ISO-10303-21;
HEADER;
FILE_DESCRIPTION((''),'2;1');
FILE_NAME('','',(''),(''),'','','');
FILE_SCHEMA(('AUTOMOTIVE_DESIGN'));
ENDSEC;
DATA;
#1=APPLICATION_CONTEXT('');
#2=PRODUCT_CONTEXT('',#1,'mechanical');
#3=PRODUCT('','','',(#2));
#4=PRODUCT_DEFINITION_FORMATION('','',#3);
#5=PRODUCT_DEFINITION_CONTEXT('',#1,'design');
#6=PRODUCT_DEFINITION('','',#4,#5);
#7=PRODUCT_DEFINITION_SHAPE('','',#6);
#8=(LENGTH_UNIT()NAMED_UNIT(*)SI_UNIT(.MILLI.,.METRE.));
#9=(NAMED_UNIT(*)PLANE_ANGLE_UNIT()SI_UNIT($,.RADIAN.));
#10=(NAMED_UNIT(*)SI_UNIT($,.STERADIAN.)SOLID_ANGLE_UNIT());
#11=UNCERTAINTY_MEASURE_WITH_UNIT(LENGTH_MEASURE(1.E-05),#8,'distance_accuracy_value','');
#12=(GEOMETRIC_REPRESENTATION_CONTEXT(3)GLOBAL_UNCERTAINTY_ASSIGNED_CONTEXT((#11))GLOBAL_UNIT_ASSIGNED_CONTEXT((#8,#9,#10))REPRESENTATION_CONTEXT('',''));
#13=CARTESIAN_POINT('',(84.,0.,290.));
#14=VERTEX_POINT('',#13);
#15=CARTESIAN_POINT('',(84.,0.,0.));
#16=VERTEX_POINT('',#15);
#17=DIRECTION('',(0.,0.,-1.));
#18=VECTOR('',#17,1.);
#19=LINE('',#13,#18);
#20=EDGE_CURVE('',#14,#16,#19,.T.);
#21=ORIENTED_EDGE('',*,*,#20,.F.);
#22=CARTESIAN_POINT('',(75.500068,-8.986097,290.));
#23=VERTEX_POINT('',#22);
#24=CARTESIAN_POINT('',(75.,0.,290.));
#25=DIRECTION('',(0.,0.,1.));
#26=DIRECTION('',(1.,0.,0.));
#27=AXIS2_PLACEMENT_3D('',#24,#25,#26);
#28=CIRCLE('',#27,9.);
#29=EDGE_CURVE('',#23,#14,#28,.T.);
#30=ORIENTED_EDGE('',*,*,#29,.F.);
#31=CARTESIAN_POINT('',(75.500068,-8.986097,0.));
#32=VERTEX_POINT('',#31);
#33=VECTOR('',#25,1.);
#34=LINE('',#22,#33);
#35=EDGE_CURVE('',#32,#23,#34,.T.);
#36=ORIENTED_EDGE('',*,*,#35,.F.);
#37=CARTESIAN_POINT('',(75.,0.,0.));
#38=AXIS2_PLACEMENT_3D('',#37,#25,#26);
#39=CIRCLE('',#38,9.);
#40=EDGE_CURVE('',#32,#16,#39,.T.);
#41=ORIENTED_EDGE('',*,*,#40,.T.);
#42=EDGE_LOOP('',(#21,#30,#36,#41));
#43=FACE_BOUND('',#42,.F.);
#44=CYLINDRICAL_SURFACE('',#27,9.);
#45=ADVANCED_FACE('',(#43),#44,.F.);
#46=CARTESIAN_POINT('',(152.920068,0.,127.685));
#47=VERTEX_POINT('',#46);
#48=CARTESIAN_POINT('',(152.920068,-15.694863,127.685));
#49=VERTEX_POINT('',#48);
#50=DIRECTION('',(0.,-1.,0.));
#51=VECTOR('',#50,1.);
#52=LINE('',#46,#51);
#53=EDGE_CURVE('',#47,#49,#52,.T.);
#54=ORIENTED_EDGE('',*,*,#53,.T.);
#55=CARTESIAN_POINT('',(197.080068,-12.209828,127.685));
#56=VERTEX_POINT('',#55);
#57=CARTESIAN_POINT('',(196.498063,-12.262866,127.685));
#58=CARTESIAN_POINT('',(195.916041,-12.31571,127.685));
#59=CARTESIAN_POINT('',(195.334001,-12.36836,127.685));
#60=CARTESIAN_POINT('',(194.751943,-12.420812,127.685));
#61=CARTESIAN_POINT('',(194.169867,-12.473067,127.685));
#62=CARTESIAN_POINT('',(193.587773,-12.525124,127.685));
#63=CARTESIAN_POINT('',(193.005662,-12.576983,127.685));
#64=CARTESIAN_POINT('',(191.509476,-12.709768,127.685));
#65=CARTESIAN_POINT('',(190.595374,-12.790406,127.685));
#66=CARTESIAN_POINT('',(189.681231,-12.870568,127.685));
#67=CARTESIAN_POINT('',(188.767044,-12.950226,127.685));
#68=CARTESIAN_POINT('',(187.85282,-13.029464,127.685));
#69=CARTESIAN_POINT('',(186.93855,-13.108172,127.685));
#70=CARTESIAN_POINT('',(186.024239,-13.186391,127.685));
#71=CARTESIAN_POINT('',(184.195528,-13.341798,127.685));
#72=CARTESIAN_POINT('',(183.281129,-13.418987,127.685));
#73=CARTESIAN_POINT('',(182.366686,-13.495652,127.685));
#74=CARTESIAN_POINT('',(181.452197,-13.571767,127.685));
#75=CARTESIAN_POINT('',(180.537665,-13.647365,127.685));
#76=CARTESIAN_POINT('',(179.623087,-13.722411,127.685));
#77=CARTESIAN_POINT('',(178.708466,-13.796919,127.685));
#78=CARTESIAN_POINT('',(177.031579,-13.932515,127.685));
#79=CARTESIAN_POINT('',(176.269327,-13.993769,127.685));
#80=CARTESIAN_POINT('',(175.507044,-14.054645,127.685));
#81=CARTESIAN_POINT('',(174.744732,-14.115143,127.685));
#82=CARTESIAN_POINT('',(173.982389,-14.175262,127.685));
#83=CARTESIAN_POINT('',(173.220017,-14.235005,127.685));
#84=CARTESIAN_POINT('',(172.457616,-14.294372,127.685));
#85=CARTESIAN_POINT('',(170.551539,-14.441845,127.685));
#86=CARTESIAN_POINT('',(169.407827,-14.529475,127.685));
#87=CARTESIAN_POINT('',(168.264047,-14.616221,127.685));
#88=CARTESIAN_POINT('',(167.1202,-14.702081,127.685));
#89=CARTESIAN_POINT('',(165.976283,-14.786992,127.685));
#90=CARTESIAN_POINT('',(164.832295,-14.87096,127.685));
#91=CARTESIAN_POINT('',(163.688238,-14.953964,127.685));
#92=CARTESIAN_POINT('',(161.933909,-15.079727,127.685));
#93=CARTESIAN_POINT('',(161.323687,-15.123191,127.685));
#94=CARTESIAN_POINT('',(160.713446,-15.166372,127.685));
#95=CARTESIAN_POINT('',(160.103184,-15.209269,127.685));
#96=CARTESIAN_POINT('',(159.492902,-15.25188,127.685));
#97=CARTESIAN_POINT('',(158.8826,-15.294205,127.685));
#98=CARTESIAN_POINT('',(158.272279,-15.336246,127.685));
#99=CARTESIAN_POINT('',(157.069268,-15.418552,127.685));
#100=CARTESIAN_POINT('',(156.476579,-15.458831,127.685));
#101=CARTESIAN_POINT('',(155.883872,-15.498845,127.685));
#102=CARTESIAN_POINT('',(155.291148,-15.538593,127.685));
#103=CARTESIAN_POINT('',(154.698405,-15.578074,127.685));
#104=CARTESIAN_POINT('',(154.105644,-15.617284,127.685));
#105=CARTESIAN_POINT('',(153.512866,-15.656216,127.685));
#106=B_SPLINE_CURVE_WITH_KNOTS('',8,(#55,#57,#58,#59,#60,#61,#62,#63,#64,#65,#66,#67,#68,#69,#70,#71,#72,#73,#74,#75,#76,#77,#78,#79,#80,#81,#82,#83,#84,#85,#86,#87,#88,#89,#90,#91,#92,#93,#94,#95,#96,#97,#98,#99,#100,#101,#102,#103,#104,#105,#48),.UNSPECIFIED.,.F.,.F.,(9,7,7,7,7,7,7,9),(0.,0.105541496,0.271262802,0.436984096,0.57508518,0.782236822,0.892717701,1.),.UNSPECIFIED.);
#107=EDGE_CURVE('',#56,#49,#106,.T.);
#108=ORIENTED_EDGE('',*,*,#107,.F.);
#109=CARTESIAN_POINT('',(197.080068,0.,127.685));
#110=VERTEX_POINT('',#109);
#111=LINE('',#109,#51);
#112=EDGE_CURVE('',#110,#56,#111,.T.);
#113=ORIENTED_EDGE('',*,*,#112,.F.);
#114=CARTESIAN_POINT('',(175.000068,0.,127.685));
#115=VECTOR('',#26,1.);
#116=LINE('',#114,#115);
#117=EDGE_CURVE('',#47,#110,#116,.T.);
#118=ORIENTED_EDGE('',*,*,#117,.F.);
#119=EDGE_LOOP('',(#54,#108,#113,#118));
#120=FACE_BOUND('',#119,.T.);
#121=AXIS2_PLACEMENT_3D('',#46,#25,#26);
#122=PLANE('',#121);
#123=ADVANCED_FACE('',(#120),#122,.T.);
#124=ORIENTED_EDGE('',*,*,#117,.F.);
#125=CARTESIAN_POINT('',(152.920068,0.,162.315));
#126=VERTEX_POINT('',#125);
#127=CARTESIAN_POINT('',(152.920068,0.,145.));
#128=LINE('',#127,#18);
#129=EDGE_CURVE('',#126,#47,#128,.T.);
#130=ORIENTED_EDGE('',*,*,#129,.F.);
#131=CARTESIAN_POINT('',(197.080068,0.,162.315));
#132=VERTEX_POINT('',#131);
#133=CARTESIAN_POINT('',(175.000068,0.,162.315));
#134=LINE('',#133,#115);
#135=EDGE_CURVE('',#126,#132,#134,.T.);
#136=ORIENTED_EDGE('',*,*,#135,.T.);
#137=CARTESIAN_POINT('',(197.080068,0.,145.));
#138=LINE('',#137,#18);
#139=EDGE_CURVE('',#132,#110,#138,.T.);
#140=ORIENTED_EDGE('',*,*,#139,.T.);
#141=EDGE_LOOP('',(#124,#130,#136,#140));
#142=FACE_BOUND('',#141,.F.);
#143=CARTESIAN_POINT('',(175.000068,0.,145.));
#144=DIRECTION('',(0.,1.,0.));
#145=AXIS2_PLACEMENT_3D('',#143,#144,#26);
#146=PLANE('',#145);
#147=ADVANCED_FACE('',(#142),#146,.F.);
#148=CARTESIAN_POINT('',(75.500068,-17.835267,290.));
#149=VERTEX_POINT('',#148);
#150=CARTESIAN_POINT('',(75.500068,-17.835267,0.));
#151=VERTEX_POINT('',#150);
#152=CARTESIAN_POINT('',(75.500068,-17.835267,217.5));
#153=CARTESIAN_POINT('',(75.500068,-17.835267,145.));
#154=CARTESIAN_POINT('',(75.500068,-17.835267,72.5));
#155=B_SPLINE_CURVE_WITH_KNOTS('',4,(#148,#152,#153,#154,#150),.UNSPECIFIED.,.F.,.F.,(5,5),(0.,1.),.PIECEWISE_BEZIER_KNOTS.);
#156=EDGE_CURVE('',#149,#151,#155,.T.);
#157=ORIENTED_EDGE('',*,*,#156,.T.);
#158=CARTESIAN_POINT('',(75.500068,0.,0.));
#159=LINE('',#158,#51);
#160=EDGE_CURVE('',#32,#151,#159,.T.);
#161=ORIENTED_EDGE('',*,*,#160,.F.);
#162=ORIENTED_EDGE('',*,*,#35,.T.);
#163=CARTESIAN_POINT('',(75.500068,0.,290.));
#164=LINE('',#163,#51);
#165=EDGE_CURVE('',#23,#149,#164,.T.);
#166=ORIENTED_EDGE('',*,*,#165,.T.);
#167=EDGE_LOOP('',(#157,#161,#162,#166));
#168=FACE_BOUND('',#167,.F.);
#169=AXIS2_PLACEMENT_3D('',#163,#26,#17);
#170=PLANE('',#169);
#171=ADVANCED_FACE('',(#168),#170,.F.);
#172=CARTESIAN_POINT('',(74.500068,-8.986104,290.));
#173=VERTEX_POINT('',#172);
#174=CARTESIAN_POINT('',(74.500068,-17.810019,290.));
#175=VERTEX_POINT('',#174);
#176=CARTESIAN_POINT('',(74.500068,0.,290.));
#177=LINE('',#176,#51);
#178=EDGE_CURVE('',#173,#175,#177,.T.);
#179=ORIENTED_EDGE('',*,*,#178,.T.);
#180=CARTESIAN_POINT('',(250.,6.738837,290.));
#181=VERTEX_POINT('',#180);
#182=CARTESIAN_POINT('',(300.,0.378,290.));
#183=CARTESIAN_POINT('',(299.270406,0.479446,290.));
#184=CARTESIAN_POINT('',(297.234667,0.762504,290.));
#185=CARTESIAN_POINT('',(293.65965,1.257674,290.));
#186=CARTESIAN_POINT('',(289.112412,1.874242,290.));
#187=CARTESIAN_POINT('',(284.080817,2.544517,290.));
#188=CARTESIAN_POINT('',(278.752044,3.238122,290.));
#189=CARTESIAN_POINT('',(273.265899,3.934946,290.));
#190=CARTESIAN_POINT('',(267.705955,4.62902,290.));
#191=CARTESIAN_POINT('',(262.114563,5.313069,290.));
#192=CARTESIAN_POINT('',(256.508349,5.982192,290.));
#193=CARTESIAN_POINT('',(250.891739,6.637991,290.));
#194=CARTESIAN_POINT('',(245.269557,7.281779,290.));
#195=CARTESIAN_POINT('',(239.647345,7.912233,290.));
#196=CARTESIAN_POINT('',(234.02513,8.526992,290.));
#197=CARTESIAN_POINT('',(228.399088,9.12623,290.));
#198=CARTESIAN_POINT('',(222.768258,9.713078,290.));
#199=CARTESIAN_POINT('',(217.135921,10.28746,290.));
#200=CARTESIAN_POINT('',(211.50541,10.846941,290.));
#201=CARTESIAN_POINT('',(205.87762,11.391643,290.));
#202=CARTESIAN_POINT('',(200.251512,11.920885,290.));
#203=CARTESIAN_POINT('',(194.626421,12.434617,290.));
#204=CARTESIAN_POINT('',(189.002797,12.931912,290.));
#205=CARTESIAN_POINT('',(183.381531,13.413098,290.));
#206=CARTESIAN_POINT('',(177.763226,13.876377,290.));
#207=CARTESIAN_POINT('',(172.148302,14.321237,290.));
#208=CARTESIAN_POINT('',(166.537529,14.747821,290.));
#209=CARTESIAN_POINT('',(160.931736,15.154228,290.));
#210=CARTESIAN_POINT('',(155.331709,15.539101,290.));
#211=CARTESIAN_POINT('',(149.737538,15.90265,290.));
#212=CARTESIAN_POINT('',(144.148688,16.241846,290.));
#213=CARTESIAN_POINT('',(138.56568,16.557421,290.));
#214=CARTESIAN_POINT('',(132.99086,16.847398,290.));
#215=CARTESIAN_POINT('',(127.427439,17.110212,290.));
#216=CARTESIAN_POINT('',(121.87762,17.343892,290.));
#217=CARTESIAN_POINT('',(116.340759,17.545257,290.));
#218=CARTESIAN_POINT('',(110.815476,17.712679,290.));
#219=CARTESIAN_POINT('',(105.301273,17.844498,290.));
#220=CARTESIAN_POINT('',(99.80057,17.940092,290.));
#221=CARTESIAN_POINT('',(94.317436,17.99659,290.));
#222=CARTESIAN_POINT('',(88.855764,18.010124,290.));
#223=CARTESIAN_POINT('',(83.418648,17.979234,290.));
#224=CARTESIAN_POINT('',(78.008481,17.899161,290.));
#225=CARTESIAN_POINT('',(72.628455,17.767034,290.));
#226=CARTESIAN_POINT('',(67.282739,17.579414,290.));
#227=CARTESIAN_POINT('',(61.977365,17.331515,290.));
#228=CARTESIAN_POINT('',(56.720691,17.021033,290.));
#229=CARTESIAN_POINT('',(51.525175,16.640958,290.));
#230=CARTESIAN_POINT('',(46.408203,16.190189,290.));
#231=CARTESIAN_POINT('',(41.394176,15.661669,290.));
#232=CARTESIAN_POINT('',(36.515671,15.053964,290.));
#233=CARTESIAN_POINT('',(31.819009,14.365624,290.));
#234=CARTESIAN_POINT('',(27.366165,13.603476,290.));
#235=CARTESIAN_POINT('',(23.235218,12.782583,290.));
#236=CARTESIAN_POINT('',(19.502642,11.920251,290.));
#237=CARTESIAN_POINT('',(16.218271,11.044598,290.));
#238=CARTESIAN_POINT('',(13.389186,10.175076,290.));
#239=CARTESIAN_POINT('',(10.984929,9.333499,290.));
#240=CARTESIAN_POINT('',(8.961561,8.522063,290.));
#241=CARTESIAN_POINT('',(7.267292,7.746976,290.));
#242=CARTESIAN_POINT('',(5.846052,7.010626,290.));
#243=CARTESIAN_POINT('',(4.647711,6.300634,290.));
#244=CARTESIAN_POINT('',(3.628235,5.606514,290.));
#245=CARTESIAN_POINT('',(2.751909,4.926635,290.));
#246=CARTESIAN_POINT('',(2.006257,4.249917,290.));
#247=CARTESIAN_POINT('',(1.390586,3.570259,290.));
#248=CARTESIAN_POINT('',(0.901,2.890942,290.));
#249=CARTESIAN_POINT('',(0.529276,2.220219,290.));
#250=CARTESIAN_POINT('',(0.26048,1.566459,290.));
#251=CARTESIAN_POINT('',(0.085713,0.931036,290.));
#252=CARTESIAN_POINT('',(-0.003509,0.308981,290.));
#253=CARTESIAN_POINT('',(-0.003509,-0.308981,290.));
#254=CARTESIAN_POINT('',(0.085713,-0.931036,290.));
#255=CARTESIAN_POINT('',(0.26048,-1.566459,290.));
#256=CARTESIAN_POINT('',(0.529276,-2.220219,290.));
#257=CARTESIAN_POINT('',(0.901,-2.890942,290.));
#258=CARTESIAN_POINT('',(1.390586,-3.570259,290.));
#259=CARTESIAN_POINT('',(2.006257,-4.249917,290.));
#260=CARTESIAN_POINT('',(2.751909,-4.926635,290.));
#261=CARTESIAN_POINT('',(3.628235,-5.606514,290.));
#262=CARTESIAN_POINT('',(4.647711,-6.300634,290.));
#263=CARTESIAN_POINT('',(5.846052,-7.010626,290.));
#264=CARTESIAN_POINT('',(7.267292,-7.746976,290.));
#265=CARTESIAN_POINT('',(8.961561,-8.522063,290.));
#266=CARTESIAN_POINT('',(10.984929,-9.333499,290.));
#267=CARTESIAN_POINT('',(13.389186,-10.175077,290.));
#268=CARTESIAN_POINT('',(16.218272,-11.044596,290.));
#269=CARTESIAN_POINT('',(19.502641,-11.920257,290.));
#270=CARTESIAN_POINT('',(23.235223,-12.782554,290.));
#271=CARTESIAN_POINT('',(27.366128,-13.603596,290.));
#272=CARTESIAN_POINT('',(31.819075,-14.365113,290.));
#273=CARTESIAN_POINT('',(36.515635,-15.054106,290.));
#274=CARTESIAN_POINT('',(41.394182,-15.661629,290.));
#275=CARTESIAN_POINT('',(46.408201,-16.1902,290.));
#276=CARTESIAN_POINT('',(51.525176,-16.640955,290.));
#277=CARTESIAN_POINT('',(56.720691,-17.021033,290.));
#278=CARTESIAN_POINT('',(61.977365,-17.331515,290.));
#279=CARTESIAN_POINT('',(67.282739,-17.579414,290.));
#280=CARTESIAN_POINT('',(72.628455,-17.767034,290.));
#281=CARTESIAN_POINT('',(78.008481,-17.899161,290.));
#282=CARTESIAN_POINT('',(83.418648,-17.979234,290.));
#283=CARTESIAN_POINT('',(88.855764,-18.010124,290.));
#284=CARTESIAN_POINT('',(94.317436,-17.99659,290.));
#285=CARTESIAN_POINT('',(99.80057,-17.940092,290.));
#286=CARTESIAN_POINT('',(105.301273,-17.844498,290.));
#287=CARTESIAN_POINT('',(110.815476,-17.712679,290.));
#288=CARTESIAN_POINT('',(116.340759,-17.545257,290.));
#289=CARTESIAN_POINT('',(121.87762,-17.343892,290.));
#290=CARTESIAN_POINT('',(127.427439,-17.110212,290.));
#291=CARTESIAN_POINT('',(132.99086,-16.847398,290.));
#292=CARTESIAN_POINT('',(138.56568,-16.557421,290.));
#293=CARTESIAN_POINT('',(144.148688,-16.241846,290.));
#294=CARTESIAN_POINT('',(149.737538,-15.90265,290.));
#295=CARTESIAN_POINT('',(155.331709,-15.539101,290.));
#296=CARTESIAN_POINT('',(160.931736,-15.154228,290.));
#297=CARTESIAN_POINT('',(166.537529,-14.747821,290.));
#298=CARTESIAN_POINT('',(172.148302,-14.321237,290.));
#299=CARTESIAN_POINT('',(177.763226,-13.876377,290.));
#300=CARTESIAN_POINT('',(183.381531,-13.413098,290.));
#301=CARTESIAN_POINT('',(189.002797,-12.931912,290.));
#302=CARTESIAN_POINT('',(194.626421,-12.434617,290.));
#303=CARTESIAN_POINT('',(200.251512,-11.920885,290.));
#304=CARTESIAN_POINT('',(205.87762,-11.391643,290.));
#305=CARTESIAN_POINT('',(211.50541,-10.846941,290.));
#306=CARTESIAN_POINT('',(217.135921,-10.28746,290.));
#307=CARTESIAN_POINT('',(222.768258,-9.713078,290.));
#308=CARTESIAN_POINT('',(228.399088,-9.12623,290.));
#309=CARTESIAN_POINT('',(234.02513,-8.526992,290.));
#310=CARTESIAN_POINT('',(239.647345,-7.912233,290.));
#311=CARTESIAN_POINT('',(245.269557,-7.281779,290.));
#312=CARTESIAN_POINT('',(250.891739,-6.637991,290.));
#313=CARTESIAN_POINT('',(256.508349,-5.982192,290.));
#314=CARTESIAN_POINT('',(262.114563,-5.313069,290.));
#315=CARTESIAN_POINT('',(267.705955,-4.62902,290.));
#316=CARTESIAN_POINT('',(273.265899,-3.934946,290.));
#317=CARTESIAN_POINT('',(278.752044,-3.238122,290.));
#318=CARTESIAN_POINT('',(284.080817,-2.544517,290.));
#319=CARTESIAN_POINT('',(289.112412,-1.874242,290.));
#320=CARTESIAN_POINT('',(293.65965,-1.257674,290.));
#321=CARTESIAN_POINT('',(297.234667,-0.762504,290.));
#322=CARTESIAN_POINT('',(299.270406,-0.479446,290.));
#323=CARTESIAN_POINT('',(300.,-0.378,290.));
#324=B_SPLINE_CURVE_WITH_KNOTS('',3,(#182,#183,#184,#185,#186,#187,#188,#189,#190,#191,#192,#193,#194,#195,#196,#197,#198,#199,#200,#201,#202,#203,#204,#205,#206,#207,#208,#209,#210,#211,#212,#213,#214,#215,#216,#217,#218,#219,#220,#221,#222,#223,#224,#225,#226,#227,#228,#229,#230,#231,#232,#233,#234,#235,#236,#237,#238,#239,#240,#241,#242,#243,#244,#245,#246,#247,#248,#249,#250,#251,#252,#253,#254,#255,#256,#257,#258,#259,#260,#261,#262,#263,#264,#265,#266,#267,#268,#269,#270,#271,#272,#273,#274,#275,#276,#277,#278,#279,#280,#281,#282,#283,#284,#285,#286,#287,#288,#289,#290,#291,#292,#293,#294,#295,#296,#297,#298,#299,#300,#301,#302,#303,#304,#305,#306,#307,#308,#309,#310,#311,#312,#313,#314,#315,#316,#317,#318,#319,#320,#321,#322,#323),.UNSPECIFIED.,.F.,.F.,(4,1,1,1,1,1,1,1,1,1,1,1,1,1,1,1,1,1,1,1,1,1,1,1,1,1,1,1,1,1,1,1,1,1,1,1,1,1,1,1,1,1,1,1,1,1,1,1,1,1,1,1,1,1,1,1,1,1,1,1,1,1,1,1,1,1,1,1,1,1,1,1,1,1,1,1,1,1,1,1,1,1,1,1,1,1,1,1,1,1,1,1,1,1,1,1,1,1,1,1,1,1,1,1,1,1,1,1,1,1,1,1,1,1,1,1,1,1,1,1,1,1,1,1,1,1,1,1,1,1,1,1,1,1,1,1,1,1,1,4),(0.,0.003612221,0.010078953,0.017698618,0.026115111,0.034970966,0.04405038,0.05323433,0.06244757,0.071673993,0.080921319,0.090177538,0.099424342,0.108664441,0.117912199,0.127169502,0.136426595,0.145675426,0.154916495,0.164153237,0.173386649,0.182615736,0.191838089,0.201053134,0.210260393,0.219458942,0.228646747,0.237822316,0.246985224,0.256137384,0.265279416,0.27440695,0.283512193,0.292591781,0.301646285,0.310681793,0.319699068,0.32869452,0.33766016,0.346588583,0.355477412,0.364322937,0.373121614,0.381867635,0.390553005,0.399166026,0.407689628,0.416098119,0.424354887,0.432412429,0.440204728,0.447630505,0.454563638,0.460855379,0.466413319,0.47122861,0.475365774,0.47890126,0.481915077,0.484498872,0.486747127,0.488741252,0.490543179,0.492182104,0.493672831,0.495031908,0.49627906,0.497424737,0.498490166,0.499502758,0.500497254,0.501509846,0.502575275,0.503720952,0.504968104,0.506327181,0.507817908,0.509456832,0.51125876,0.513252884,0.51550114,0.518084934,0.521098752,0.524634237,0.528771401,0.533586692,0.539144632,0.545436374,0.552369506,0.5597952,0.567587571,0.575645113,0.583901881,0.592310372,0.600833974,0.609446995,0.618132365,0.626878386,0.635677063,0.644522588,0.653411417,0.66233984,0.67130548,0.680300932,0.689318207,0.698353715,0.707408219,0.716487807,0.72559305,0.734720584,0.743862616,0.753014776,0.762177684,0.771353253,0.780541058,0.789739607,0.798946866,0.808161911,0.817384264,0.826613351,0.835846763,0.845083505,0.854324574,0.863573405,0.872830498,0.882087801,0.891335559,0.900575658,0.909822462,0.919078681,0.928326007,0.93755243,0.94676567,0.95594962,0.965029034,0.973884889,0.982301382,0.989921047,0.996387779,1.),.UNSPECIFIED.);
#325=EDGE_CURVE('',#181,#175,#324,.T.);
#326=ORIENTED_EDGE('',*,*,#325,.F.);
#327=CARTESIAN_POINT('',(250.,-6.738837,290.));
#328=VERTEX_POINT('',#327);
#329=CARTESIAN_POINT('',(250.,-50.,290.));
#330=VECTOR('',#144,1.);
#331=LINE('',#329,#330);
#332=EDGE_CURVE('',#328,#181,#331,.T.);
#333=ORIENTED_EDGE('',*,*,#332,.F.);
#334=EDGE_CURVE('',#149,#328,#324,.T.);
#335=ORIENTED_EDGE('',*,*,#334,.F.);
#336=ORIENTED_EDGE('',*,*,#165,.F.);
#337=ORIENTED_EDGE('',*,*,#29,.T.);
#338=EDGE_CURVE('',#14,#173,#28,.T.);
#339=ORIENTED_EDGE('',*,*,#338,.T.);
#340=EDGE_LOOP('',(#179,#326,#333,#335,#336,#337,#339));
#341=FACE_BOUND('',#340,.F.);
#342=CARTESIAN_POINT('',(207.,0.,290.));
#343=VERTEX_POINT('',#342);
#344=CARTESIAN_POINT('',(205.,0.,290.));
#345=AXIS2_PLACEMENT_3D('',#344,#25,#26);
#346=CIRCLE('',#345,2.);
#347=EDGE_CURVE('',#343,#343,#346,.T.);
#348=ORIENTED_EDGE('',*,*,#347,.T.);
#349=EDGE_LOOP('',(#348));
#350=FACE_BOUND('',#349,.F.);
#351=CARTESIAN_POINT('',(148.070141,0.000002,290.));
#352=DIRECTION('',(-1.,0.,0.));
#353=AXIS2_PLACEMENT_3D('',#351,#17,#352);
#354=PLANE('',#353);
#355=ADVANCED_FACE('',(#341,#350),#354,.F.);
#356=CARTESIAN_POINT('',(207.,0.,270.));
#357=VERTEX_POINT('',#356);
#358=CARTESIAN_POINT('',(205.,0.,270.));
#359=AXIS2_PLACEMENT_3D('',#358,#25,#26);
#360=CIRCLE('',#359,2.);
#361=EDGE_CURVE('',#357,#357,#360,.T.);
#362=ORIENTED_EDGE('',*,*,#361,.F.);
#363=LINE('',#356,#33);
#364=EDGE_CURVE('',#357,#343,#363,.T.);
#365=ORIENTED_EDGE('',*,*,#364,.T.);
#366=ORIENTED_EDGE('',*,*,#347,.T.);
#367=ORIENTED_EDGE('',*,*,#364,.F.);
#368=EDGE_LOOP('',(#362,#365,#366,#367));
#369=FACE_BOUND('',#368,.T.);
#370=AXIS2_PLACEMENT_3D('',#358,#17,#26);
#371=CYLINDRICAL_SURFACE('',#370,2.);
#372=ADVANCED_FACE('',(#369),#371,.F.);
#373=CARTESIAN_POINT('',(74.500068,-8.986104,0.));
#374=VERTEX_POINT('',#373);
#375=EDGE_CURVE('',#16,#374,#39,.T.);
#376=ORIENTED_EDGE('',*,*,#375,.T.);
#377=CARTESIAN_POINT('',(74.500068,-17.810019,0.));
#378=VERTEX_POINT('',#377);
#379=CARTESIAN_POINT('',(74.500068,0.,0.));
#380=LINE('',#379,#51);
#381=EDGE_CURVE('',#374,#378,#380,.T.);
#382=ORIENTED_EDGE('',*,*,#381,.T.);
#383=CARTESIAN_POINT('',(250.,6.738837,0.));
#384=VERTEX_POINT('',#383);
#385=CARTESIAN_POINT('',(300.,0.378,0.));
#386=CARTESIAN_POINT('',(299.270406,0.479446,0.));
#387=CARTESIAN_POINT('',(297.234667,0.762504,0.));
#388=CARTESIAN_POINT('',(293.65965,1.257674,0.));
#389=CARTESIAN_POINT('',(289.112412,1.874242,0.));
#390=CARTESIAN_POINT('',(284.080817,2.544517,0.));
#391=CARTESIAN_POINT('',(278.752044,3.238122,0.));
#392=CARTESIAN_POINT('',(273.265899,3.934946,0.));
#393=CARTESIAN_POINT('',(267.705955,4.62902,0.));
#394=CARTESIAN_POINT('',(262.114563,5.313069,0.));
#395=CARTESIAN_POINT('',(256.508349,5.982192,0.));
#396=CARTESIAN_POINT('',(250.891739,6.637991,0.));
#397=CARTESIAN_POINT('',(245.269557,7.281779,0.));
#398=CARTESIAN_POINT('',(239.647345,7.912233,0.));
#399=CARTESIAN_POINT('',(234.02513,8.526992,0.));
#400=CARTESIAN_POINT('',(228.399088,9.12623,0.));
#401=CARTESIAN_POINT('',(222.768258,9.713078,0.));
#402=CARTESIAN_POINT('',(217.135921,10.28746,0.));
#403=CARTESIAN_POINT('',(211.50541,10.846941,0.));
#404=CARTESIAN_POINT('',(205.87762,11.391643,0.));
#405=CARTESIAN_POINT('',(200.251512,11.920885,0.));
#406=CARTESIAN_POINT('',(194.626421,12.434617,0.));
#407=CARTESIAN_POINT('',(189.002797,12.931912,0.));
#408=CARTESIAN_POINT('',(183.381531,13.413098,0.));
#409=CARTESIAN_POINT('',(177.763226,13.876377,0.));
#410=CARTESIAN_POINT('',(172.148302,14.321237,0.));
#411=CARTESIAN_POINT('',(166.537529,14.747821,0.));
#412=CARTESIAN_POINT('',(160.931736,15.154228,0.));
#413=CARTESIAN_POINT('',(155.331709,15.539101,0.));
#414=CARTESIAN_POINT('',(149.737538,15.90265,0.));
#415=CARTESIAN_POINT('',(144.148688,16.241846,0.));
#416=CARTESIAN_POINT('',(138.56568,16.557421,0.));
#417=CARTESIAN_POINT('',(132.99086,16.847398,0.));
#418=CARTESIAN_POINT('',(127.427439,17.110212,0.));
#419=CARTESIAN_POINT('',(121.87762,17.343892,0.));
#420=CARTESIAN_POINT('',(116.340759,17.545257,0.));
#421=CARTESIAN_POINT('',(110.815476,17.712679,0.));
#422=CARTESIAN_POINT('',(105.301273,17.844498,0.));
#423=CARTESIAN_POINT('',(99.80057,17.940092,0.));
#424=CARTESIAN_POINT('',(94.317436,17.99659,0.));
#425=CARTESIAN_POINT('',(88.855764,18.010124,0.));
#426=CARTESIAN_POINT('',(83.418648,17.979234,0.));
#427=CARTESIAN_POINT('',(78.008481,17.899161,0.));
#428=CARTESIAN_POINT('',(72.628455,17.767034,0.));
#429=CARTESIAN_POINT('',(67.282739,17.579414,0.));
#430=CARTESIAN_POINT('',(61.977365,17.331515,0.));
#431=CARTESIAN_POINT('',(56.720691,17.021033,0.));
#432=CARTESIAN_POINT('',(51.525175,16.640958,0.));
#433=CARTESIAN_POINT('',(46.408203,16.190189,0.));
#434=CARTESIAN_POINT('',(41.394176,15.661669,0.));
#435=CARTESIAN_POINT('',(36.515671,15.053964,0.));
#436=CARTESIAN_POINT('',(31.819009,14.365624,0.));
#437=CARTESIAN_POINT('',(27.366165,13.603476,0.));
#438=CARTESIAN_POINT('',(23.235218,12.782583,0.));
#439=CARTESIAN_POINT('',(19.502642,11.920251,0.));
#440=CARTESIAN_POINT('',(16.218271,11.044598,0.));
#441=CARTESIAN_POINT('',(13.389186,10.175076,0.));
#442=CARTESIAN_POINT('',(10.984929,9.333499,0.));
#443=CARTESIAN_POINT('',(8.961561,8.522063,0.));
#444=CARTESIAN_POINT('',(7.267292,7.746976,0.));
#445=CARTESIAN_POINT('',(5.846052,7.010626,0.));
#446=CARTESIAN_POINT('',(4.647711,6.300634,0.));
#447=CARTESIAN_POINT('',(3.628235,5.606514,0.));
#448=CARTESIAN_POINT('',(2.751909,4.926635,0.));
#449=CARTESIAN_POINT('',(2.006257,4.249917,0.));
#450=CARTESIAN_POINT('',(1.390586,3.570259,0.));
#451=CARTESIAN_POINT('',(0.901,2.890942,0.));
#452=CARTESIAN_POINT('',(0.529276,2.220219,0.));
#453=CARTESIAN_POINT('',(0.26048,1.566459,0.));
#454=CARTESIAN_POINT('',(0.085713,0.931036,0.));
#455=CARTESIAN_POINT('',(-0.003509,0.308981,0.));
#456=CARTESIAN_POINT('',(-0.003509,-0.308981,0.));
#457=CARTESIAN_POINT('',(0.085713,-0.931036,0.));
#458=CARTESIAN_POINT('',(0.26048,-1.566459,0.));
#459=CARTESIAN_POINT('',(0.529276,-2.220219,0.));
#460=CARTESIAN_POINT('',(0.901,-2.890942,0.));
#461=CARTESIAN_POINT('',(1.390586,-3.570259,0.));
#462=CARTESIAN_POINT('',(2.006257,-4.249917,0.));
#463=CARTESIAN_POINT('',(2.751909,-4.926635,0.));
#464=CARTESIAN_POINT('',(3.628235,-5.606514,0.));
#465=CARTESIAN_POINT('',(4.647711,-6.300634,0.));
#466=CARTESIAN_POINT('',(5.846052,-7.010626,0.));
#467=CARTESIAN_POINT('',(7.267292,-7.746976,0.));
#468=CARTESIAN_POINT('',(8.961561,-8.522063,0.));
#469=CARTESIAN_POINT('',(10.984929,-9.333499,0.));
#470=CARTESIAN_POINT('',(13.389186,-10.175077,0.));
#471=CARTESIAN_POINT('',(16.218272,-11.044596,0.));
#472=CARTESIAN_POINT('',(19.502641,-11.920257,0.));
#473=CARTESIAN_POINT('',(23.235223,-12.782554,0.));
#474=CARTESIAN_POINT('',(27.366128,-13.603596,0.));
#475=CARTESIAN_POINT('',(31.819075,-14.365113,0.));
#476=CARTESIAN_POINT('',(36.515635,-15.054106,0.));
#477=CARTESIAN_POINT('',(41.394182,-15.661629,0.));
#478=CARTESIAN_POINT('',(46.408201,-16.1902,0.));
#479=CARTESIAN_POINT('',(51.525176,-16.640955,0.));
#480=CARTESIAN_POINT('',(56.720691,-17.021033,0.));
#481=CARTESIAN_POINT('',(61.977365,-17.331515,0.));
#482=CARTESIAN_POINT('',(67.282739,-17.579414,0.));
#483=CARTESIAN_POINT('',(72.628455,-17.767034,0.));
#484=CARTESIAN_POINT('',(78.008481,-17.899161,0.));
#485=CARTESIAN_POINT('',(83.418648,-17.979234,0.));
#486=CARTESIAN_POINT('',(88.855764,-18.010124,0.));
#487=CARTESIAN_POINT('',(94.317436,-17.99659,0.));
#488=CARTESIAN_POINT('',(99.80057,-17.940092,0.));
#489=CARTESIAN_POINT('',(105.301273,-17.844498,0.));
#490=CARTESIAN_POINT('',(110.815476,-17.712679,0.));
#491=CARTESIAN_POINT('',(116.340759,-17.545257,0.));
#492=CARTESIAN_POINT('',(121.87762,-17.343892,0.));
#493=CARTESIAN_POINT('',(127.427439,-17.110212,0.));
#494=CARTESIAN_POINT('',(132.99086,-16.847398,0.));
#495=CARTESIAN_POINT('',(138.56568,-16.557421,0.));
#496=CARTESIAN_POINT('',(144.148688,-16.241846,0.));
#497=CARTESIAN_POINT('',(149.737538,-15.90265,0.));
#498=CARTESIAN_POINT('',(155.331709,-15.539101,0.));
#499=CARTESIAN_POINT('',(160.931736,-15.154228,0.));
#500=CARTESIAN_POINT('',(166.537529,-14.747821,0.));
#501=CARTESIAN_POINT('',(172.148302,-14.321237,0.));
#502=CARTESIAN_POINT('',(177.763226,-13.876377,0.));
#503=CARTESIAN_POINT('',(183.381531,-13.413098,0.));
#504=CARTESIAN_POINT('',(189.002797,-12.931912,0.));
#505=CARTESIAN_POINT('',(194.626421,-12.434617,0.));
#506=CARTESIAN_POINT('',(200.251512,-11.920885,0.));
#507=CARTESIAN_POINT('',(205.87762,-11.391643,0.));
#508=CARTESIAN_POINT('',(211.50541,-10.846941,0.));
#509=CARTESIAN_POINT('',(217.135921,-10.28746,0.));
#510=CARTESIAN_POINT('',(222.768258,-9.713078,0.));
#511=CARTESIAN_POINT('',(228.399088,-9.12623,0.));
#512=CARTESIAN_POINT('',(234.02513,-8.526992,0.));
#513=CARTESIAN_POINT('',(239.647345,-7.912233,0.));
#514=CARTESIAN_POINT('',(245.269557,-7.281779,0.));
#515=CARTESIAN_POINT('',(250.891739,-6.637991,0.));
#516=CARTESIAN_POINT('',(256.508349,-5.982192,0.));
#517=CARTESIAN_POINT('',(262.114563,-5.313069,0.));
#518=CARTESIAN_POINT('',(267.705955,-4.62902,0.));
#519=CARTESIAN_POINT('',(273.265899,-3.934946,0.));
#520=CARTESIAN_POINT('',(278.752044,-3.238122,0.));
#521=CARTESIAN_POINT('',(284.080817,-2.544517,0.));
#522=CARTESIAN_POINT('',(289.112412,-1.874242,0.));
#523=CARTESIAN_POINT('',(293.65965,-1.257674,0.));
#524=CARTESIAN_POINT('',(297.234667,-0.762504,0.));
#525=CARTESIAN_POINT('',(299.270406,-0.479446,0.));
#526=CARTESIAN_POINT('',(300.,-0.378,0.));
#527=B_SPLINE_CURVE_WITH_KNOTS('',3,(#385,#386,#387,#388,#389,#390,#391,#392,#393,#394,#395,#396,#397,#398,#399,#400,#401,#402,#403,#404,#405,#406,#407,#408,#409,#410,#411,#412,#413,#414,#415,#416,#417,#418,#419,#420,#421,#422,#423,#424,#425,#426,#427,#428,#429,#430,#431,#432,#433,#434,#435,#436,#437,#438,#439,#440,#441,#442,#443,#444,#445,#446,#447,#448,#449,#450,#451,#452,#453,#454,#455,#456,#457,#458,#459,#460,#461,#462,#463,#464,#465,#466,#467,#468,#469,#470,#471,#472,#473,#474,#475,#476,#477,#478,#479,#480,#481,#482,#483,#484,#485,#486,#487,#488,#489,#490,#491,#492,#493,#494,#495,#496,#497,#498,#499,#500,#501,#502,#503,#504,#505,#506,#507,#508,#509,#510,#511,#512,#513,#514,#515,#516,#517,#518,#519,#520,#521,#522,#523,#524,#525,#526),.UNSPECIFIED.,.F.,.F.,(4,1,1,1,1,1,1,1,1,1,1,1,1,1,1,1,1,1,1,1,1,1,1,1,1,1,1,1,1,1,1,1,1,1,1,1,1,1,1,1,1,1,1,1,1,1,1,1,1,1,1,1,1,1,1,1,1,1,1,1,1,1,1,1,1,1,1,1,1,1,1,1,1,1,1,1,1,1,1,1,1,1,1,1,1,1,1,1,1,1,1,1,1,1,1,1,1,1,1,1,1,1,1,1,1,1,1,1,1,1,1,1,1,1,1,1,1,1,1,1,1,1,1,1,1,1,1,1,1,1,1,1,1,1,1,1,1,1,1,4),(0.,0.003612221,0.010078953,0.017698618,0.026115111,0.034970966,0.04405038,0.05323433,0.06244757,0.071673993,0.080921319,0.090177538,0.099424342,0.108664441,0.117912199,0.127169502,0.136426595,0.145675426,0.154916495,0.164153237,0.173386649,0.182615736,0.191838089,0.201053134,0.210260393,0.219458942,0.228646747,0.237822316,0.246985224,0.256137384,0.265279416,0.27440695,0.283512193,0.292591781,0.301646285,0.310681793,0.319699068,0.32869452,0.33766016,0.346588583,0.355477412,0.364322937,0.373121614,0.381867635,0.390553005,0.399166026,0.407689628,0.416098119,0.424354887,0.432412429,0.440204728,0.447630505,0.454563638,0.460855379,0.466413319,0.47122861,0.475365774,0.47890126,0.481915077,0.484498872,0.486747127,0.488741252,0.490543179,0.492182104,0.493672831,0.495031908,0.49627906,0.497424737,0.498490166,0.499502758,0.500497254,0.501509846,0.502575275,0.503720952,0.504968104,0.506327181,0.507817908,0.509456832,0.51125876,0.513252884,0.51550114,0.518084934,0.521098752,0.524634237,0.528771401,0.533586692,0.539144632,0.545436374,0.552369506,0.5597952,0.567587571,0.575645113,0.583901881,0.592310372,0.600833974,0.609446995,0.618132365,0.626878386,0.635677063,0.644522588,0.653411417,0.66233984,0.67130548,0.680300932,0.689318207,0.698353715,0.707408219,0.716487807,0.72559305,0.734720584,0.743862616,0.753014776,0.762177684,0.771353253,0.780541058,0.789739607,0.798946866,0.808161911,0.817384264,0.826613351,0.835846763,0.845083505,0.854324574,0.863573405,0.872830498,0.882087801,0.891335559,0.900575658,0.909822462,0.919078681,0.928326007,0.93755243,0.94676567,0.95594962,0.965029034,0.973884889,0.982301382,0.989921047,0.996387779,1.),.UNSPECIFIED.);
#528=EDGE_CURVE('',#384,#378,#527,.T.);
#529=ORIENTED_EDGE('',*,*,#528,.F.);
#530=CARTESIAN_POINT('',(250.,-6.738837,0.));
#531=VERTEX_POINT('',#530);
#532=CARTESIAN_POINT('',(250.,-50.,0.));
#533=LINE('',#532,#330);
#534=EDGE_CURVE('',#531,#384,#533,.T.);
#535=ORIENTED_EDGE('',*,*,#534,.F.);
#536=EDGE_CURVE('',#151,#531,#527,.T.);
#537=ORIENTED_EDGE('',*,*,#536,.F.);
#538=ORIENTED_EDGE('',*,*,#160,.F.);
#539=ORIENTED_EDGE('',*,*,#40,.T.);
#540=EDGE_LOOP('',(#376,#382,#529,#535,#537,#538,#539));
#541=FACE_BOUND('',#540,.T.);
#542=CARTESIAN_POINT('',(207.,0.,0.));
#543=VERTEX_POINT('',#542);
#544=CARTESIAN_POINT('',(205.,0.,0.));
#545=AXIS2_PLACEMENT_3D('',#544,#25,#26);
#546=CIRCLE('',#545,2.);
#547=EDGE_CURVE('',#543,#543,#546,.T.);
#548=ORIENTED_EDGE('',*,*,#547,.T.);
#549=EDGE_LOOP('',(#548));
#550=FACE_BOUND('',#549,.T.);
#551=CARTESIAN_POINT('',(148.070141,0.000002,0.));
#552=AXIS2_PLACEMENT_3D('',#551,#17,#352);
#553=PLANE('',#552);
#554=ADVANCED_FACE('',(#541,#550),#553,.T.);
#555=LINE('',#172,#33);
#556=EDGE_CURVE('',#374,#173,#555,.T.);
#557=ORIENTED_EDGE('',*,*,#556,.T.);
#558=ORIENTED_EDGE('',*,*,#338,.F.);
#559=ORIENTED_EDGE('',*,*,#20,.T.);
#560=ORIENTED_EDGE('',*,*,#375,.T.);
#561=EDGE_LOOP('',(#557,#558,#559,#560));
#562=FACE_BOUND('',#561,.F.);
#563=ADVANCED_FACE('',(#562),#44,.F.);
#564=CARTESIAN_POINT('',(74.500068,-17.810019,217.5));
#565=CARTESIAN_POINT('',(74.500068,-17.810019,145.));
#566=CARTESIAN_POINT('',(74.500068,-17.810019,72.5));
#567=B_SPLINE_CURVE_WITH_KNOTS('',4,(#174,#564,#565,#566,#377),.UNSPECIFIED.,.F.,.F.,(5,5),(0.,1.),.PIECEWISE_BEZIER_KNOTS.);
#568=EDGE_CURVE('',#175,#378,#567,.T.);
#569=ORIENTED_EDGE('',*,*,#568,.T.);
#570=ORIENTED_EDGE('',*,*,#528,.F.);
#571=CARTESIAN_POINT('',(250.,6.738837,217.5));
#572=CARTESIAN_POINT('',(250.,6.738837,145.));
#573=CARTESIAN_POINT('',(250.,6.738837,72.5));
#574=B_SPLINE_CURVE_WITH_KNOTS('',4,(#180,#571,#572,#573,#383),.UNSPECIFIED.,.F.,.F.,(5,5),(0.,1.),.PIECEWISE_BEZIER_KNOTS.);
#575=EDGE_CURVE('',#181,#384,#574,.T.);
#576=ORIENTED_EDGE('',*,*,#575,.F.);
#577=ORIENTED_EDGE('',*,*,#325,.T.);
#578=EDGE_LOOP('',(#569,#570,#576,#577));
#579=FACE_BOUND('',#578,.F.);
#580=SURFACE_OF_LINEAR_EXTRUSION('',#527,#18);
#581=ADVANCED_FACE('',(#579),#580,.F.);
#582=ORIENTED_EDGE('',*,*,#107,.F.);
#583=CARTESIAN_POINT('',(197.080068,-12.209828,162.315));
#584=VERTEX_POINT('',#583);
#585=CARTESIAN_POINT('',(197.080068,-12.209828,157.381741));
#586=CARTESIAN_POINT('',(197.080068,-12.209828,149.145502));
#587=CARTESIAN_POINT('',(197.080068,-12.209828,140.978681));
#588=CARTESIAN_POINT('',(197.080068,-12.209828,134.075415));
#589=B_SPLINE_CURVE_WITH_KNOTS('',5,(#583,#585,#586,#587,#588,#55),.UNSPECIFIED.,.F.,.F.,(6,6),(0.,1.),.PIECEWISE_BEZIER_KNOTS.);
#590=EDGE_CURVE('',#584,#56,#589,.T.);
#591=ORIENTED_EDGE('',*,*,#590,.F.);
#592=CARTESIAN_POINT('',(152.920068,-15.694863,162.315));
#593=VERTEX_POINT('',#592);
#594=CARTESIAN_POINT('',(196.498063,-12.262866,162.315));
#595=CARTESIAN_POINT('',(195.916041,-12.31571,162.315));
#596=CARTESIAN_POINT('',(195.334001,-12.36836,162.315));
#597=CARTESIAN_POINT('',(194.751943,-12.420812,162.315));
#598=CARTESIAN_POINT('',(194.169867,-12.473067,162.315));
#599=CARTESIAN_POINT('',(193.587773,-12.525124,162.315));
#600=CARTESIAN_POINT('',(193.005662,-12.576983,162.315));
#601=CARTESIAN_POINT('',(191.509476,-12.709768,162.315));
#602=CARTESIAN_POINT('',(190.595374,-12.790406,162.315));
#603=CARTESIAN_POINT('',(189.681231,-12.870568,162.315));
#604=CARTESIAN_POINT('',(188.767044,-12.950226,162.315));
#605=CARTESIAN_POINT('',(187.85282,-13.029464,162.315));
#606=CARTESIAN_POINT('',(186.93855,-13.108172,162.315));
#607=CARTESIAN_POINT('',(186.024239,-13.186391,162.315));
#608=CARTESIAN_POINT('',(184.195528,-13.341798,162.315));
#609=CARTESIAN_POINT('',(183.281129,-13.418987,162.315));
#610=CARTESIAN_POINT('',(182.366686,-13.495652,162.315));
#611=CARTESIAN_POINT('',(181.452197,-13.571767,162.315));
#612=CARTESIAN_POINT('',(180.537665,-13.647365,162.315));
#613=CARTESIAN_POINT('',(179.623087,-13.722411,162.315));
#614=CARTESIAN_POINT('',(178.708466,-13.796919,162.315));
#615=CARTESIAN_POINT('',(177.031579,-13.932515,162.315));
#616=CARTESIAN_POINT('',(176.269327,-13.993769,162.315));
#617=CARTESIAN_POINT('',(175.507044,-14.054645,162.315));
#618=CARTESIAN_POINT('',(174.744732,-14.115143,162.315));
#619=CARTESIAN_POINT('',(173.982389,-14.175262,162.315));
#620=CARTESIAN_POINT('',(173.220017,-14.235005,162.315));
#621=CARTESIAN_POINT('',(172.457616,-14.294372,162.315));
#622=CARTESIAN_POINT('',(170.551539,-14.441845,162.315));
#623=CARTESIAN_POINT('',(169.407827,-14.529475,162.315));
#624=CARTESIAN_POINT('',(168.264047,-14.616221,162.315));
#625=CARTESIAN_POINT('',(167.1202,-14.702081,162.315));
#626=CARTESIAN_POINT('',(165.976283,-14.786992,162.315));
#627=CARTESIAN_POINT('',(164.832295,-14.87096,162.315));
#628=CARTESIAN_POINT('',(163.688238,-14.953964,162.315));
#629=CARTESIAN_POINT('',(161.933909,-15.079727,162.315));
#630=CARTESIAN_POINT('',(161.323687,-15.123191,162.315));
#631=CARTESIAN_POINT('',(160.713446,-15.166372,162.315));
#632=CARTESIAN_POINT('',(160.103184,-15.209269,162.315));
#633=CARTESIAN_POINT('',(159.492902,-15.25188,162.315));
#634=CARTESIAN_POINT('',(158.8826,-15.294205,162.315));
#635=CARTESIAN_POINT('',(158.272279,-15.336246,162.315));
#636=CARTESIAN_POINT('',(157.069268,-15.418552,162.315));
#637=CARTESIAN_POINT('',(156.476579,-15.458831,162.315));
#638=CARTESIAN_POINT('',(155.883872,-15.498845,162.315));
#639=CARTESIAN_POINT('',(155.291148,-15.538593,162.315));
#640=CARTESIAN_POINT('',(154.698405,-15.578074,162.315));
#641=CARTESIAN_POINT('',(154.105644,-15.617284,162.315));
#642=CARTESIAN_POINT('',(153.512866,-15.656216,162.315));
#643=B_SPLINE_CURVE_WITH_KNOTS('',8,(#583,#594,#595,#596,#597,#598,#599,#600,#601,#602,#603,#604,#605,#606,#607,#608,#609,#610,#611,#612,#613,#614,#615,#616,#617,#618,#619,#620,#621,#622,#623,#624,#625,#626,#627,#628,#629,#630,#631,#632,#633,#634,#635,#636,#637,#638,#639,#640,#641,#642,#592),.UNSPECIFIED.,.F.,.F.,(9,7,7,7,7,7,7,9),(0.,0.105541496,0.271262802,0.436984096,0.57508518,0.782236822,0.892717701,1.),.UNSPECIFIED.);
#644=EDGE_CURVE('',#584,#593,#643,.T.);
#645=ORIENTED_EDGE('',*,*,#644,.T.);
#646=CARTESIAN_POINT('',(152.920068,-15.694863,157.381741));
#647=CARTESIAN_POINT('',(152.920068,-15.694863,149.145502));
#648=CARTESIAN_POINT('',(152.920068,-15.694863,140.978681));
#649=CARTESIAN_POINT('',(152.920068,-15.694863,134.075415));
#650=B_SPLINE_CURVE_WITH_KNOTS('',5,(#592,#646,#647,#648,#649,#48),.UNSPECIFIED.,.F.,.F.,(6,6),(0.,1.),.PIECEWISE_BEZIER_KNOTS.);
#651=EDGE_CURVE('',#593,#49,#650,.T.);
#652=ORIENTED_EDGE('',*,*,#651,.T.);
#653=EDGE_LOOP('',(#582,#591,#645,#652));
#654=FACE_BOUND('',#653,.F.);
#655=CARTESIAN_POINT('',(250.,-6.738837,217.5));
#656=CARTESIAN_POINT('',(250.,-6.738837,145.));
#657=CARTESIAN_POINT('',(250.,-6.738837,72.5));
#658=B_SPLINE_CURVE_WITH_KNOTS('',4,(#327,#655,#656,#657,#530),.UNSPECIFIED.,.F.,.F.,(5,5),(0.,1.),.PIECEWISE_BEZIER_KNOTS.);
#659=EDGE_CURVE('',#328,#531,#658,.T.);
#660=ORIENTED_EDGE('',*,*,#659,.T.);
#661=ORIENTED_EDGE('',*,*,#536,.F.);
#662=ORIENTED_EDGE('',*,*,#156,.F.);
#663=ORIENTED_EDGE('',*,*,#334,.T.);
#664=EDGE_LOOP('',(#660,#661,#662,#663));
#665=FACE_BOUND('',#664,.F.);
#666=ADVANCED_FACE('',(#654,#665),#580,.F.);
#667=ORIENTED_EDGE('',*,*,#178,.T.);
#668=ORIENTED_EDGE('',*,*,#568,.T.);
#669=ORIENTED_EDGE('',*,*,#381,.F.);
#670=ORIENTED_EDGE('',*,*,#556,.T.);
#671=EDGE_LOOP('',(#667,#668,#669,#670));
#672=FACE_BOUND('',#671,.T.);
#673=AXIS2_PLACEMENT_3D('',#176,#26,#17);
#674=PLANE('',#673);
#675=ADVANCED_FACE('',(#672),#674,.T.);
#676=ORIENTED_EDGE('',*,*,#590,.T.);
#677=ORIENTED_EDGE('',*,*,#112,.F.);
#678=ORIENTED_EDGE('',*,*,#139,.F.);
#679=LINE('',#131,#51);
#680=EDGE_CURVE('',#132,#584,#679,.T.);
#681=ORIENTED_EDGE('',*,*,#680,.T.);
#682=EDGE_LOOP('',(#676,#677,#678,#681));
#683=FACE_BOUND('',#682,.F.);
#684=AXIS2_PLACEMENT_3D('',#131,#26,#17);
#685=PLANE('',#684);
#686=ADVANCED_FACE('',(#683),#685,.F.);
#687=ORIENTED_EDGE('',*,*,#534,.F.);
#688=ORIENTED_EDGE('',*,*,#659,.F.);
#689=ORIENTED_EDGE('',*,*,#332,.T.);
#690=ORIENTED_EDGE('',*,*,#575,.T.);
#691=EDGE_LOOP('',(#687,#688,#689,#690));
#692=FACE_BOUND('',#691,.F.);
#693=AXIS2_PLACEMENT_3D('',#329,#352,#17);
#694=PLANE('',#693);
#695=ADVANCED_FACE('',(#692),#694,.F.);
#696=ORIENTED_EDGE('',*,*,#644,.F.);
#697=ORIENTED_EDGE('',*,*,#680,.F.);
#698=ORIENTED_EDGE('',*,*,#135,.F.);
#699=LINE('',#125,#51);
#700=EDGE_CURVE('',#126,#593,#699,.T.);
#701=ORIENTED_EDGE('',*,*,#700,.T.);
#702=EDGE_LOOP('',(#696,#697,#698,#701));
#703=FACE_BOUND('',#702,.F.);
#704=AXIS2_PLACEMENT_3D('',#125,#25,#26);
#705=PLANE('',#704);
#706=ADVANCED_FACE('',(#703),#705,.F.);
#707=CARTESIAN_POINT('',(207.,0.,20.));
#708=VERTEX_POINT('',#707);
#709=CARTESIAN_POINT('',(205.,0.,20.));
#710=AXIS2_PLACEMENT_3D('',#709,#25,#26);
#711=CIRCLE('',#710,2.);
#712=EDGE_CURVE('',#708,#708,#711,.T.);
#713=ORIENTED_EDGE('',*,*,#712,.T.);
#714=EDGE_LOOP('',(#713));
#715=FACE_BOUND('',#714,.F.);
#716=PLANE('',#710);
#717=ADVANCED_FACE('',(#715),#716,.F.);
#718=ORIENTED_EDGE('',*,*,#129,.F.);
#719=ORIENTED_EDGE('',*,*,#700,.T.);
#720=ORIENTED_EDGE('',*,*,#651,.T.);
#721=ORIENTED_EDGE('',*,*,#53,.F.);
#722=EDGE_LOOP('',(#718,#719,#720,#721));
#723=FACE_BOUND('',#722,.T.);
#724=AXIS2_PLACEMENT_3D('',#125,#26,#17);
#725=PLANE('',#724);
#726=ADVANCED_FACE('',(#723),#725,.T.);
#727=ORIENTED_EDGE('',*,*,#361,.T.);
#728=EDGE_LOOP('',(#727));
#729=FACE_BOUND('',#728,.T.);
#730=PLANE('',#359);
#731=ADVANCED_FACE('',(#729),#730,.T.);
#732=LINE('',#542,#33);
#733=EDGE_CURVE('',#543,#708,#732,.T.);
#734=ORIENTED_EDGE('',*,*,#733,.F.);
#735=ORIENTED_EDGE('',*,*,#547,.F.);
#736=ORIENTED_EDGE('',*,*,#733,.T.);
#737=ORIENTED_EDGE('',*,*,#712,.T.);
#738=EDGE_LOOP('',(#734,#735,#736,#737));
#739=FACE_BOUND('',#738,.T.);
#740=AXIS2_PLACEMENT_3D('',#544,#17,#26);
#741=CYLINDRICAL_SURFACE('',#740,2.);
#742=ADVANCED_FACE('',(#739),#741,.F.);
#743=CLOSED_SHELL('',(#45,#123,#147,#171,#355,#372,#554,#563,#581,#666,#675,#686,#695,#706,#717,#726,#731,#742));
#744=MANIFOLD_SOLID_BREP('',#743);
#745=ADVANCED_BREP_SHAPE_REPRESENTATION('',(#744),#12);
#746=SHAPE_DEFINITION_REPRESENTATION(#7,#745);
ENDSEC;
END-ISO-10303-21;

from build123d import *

# Parameters (mm, degrees)
BOSS_EXTRUDE1_DEPTH     = 290
SKETCH7_R               = 9
CUT_EXTRUDE7_DEPTH      = 418.641148142
SKETCH8_W               = 44.16
SKETCH8_H               = 34.63
CUT_EXTRUDE8_DEPTH      = 50
CUT_EXTRUDE9_DEPTH      = 50
CUT_EXTRUDE9_DEPTH_BACK = 50
SKETCH10_W              = 50
SKETCH10_H              = 290
SKETCH12_W              = 1
SKETCH12_H              = 290
CUT_EXTRUDE10_DEPTH     = 50
SKETCH13_R              = 2
CUT_EXTRUDE11_DEPTH     = 20
CUT_EXTRUDE12_START     = -20
SKETCH14_R              = 2
CUT_EXTRUDE12_DEPTH     = 20


with BuildPart() as part:
    # Sketch5 → Boss-Extrude1 (new body)
    with BuildSketch(Plane.XY):
        with BuildLine():
            Line((300, 0.378), (300, -0.378))
            add(Edge.make_bspline(
                [(300, 0.378), (299.270406424, 0.479445822), (297.234667094, 0.762503754), (293.659650161, 1.257673506), (289.112411795, 1.874242443), (284.080816659, 2.54451744), (278.752044218, 3.238122316), (273.265899022, 3.934946436), (267.705955472, 4.629019943), (262.11456302, 5.313069107), (256.508348909, 5.982191812), (250.891738994, 6.637990809), (245.269556965, 7.281779235), (239.647345349, 7.912232764), (234.025130107, 8.526992046), (228.399087903, 9.126229764), (222.768257645, 9.713077606), (217.135920793, 10.28745981), (211.505410154, 10.846941084), (205.877619803, 11.391642827), (200.251512374, 11.920884624), (194.626420536, 12.434617078), (189.002797137, 12.931911809), (183.381530938, 13.413097581), (177.763225616, 13.876376701), (172.148301533, 14.321237194), (166.537529462, 14.747820918), (160.931736194, 15.154228144), (155.33170885, 15.539100856), (149.737538345, 15.902649564), (144.148688279, 16.241846119), (138.565679604, 16.557420546), (132.990859803, 16.847397555), (127.42743944, 17.110211679), (121.877619637, 17.343891718), (116.340758577, 17.545256813), (110.815476382, 17.71267912), (105.301273398, 17.844497938), (99.800570116, 17.940091813), (94.317435844, 17.996590439), (88.855764067, 18.010124458), (83.418647975, 17.97923384), (78.008480827, 17.899160713), (72.628455365, 17.767033787), (67.282738746, 17.579413934), (61.977364895, 17.331515489), (56.720691016, 17.021032651), (51.525175322, 16.64095807), (46.408202619, 16.190188591), (41.394176065, 15.661669099), (36.515671087, 15.053963784), (31.819009441, 14.365623605), (27.366164829, 13.603475684), (23.235217954, 12.782583444), (19.502642451, 11.920250751), (16.218271393, 11.044597796), (13.389186016, 10.175076255), (10.984929333, 9.333498715), (8.961561478, 8.522062882), (7.267292053, 7.746976002), (5.846052466, 7.010625622), (4.647711085, 6.300634033), (3.628235251, 5.606513668), (2.751909197, 4.926635252), (2.00625736, 4.249917259), (1.390586137, 3.570259492), (0.901000435, 2.890942252), (0.529275535, 2.220219273), (0.260479537, 1.566458936), (0.085712654, 0.931035928), (-0.003509247, 0.308981015), (-0.003509247, -0.308981015), (0.085712654, -0.931035928), (0.260479537, -1.566458936), (0.529275535, -2.220219273), (0.901000435, -2.890942252), (1.390586137, -3.570259492), (2.00625736, -4.249917259), (2.751909197, -4.926635252), (3.628235251, -5.606513668), (4.647711085, -6.300634033), (5.846052466, -7.010625622), (7.267292053, -7.746975999), (8.961561475, -8.522062895), (10.984929344, -9.333498651), (13.389185965, -10.175076559), (16.21827163, -11.044596377), (19.502641361, -11.92025728), (23.235222799, -12.782554413), (27.366127559, -13.603596161), (31.819075008, -14.365113363), (36.515634637, -15.054106097), (41.394182204, -15.661628887), (46.408200924, -16.190199694), (51.525175786, -16.640955027), (56.720690889, -17.02103348), (61.977364929, -17.331515263), (67.282738736, -17.579413995), (72.628455367, -17.767033771), (78.008480826, -17.899160717), (83.418647975, -17.979233839), (88.855764067, -18.010124458), (94.317435844, -17.996590438), (99.800570116, -17.940091813), (105.301273398, -17.844497938), (110.815476382, -17.71267912), (116.340758577, -17.545256813), (121.877619637, -17.343891718), (127.42743944, -17.110211679), (132.990859803, -16.847397555), (138.565679604, -16.557420546), (144.148688279, -16.241846119), (149.737538345, -15.902649564), (155.33170885, -15.539100856), (160.931736194, -15.154228144), (166.537529462, -14.747820918), (172.148301533, -14.321237194), (177.763225616, -13.876376701), (183.381530938, -13.413097581), (189.002797137, -12.931911809), (194.626420536, -12.434617078), (200.251512374, -11.920884624), (205.877619803, -11.391642827), (211.505410154, -10.846941084), (217.135920793, -10.28745981), (222.768257645, -9.713077606), (228.399087903, -9.126229764), (234.025130107, -8.526992046), (239.647345349, -7.912232764), (245.269556965, -7.281779235), (250.891738994, -6.637990809), (256.508348909, -5.982191812), (262.11456302, -5.313069107), (267.705955472, -4.629019943), (273.265899022, -3.934946436), (278.752044218, -3.238122316), (284.080816659, -2.54451744), (289.112411795, -1.874242443), (293.659650161, -1.257673506), (297.234667094, -0.762503754), (299.270406424, -0.479445822), (300, -0.378)],
                knots=[0, 0, 0, 0, 0.003612221, 0.010078953, 0.017698618, 0.026115111, 0.034970966, 0.04405038, 0.05323433, 0.06244757, 0.071673993, 0.080921319, 0.090177538, 0.099424342, 0.108664441, 0.117912199, 0.127169502, 0.136426595, 0.145675426, 0.154916495, 0.164153237, 0.173386649, 0.182615736, 0.191838089, 0.201053134, 0.210260393, 0.219458942, 0.228646747, 0.237822316, 0.246985224, 0.256137384, 0.265279416, 0.27440695, 0.283512193, 0.292591781, 0.301646285, 0.310681793, 0.319699068, 0.32869452, 0.33766016, 0.346588583, 0.355477412, 0.364322937, 0.373121614, 0.381867635, 0.390553005, 0.399166026, 0.407689628, 0.416098119, 0.424354887, 0.432412429, 0.440204728, 0.447630505, 0.454563638, 0.460855379, 0.466413319, 0.47122861, 0.475365774, 0.47890126, 0.481915077, 0.484498872, 0.486747127, 0.488741252, 0.490543179, 0.492182104, 0.493672831, 0.495031908, 0.49627906, 0.497424737, 0.498490166, 0.499502758, 0.500497254, 0.501509846, 0.502575275, 0.503720952, 0.504968104, 0.506327181, 0.507817908, 0.509456832, 0.51125876, 0.513252884, 0.51550114, 0.518084934, 0.521098752, 0.524634237, 0.528771401, 0.533586692, 0.539144632, 0.545436374, 0.552369506, 0.5597952, 0.567587571, 0.575645113, 0.583901881, 0.592310372, 0.600833974, 0.609446995, 0.618132365, 0.626878386, 0.635677063, 0.644522588, 0.653411417, 0.66233984, 0.67130548, 0.680300932, 0.689318207, 0.698353715, 0.707408219, 0.716487807, 0.72559305, 0.734720584, 0.743862616, 0.753014776, 0.762177684, 0.771353253, 0.780541058, 0.789739607, 0.798946866, 0.808161911, 0.817384264, 0.826613351, 0.835846763, 0.845083505, 0.854324574, 0.863573405, 0.872830498, 0.882087801, 0.891335559, 0.900575658, 0.909822462, 0.919078681, 0.928326007, 0.93755243, 0.94676567, 0.95594962, 0.965029034, 0.973884889, 0.982301382, 0.989921047, 0.996387779, 1, 1, 1, 1], degree=3))
        make_face()
    extrude(amount=BOSS_EXTRUDE1_DEPTH)

    # Sketch7 → Cut-Extrude7 (cut, through all)
    with BuildSketch(Plane.XY.offset(290)):
        with Locations((75, 0)):
            Circle(SKETCH7_R)
    extrude(amount=-CUT_EXTRUDE7_DEPTH, mode=Mode.SUBTRACT)

    # Sketch8 → Cut-Extrude8 (cut)
    with BuildSketch(Plane(origin=(0, 0, 0), x_dir=(1, 0, 0), z_dir=(0, 1, 0))):
        with Locations((175.000068065, -145)):
            Rectangle(SKETCH8_W, SKETCH8_H)
    extrude(amount=-CUT_EXTRUDE8_DEPTH, mode=Mode.SUBTRACT)

    # Sketch10 → Cut-Extrude9 (cut, two sides: drawn at the far end of the back side and taken through both)
    with BuildSketch(Plane(origin=(0, 0, 0), x_dir=(1, 0, 0), z_dir=(0, 1, 0)).offset(-CUT_EXTRUDE9_DEPTH_BACK)):
        with Locations((275, -145)):
            Rectangle(SKETCH10_W, SKETCH10_H)
    extrude(amount=CUT_EXTRUDE9_DEPTH + CUT_EXTRUDE9_DEPTH_BACK, mode=Mode.SUBTRACT)

    # Sketch12 → Cut-Extrude10 (cut)
    with BuildSketch(Plane(origin=(0, 0, 0), x_dir=(1, 0, 0), z_dir=(0, 1, 0))):
        with Locations((75.000068065, -145)):
            Rectangle(SKETCH12_W, SKETCH12_H)
    extrude(amount=-CUT_EXTRUDE10_DEPTH, mode=Mode.SUBTRACT)

    # Sketch13 → Cut-Extrude11 (cut)
    with BuildSketch(Plane.XY):
        with Locations((205, 0)):
            Circle(SKETCH13_R)
    extrude(amount=CUT_EXTRUDE11_DEPTH, mode=Mode.SUBTRACT)

    # Sketch14 → Cut-Extrude12 (cut)
    with BuildSketch(Plane.XY.offset(290).offset(CUT_EXTRUDE12_START)):
        with Locations((205, 0)):
            Circle(SKETCH14_R)
    extrude(amount=CUT_EXTRUDE12_DEPTH, mode=Mode.SUBTRACT)


solid = part.part
